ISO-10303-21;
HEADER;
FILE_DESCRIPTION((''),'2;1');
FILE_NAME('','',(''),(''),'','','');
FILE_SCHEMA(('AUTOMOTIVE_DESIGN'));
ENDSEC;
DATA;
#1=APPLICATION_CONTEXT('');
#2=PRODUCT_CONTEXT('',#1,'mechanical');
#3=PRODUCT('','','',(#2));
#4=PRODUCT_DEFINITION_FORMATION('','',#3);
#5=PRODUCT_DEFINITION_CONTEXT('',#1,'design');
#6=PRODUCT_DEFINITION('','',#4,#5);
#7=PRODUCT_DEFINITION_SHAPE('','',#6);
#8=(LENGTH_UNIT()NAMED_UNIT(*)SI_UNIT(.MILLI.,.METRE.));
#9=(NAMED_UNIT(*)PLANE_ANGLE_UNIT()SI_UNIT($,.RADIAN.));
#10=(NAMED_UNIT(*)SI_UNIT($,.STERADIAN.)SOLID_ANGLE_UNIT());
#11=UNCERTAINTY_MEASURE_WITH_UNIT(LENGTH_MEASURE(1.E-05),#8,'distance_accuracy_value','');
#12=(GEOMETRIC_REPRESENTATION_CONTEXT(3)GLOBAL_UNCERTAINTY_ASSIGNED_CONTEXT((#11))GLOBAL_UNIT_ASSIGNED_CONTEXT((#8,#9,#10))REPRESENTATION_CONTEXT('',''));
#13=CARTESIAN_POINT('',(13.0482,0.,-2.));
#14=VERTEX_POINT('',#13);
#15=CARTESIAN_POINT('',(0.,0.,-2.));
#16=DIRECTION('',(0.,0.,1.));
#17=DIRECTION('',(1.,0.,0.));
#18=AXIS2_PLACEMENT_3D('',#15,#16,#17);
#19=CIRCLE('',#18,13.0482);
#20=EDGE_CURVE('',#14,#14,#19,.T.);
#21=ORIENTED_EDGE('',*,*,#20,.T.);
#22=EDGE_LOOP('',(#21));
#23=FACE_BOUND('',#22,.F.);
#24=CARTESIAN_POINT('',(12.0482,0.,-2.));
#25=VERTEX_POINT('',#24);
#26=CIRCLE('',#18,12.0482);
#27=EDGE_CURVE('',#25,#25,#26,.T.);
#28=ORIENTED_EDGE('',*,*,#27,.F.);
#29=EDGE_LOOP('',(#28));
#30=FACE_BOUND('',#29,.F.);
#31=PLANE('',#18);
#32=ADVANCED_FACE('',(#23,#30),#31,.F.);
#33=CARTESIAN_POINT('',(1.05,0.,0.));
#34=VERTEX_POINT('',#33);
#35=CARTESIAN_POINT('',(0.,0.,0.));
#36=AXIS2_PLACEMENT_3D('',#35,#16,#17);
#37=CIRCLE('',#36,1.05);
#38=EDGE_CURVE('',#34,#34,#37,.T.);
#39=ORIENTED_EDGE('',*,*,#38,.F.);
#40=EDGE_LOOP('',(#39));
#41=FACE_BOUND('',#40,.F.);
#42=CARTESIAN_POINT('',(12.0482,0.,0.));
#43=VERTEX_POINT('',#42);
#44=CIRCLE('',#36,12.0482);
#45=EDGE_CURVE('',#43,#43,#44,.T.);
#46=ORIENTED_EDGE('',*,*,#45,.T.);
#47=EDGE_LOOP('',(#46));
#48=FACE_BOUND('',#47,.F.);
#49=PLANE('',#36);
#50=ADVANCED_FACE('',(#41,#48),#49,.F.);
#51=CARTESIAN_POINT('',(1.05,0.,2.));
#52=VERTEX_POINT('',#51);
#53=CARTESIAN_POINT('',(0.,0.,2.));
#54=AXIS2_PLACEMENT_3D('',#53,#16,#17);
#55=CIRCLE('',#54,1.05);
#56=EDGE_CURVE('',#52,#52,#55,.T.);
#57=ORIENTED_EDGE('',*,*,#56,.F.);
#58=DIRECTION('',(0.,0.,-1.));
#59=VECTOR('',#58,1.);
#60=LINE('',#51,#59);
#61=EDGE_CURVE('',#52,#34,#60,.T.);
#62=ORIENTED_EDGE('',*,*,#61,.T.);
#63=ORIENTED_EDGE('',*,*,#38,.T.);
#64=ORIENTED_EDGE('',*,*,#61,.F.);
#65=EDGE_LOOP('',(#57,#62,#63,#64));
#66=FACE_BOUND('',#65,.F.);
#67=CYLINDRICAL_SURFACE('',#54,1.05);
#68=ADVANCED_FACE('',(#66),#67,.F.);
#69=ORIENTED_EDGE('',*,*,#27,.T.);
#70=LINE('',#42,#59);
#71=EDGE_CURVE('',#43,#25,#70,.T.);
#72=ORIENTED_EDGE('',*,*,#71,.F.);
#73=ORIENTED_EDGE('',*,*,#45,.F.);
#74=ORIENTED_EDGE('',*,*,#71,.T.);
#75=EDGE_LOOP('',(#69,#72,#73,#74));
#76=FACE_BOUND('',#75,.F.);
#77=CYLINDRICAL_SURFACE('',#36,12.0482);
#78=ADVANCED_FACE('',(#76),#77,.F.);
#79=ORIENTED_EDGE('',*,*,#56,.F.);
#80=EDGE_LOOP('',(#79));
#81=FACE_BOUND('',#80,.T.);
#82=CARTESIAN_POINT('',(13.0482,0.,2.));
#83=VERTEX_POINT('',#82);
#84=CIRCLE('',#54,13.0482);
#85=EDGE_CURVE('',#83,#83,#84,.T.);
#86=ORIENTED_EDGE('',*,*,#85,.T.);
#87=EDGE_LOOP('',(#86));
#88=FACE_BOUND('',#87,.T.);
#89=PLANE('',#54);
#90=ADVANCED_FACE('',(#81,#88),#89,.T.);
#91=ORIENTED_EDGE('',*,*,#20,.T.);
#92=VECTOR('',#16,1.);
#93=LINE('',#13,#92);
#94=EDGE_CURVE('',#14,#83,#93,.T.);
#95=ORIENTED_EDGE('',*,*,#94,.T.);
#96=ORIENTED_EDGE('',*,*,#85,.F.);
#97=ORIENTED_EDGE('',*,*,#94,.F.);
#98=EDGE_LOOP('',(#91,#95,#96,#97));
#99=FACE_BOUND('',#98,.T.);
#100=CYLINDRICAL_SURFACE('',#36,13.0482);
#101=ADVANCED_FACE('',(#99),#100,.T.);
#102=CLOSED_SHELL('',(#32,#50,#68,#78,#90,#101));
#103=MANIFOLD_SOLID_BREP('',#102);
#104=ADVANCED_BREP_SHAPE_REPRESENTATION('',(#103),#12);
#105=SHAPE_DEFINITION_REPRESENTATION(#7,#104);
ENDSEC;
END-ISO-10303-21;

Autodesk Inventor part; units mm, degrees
ref_plane "YZ Plane" through (0, 0, 0) normal (1, 0, 0) x (0, 1, 0)
ref_plane "XZ Plane" through (0, 0, 0) normal (0, 1, 0) x (-1, 0, 0)
ref_plane "XY Plane" through (0, 0, 0) normal (0, 0, 1) x (1, 0, 0)
sketch "Sketch1" plane through (0, 0, 0) normal (0, 0, 1) x (1, 0, 0)
  circle A0 centre (0, 0) radius 13.0482
  spline S0 degree 3 poles (1.4215, 11.0572) (1.4473, 10.9809) (1.4859, 10.8664) (1.5292, 10.7112) (1.5586, 10.5939) (1.5843, 10.4759) (1.6059, 10.357) (1.6236, 10.2374) (1.631, 10.1572) (1.6346, 10.117) knots -0.096663 -0.096663 -0.096663 -0.096663 -0.072499 -0.060415 -0.048332 -0.036249 -0.024166 -0.012083 0 0 0 0 projected
  arc A1 (1.9905, 10.0531) -> (1.6346, 10.117) centre (0, 0) ccw projected
  spline S1 degree 3 poles (1.9905, 10.0531) (2.0079, 10.0894) (2.0426, 10.1621) (2.1009, 10.268) (2.1626, 10.3719) (2.2278, 10.4737) (2.2962, 10.5733) (2.3908, 10.7038) (2.4669, 10.7977) (2.5176, 10.8602) knots -0.096663 -0.096663 -0.096663 -0.096663 -0.084581 -0.072498 -0.060415 -0.048331 -0.036248 -0.024165 0 0 0 0 projected
  arc A2 (2.7193, 10.8115) -> (2.5176, 10.8602) centre (0, 0) ccw projected
  spline S2 degree 3 poles (2.7193, 10.8115) (2.7359, 10.7327) (2.7607, 10.6144) (2.7853, 10.4551) (2.8006, 10.3353) (2.8122, 10.215) (2.8196, 10.0943) (2.8231, 9.9735) (2.8208, 9.893) (2.8197, 9.8527) knots -0.096663 -0.096663 -0.096663 -0.096663 -0.072499 -0.060415 -0.048332 -0.036249 -0.024166 -0.012083 0 0 0 0 projected
  arc A3 (3.1655, 9.7471) -> (2.8197, 9.8527) centre (0, 0) ccw projected
  spline S3 degree 3 poles (3.1655, 9.7471) (3.1871, 9.7811) (3.2302, 9.8492) (3.3006, 9.9475) (3.3741, 10.0433) (3.4509, 10.1367) (3.5306, 10.2275) (3.64, 10.3459) (3.7266, 10.4301) (3.7844, 10.4863) knots -0.096663 -0.096663 -0.096663 -0.096663 -0.084581 -0.072498 -0.060415 -0.048331 -0.036248 -0.024165 0 0 0 0 projected
  arc A4 (3.9789, 10.414) -> (3.7844, 10.4863) centre (0, 0) ccw projected
  spline S4 degree 3 poles (3.9789, 10.414) (3.986, 10.3337) (3.9967, 10.2134) (4.0023, 10.0523) (4.0033, 9.9315) (4.0006, 9.8106) (3.9937, 9.69) (3.9828, 9.5696) (3.9711, 9.4899) (3.9652, 9.45) knots -0.096663 -0.096663 -0.096663 -0.096663 -0.072499 -0.060415 -0.048332 -0.036249 -0.024166 -0.012083 0 0 0 0 projected
  arc A5 (4.2961, 9.3043) -> (3.9652, 9.45) centre (0, 0) ccw projected
  spline S5 degree 3 poles (4.2961, 9.3043) (4.3215, 9.3355) (4.3724, 9.398) (4.4539, 9.4873) (4.5383, 9.5738) (4.6256, 9.6574) (4.7154, 9.7382) (4.838, 9.8428) (4.9341, 9.9161) (4.9981, 9.9651) knots -0.096663 -0.096663 -0.096663 -0.096663 -0.084581 -0.072498 -0.060415 -0.048331 -0.036248 -0.024165 0 0 0 0 projected
  arc A6 (5.1827, 9.8703) -> (4.9981, 9.9651) centre (0, 0) ccw projected
  spline S6 degree 3 poles (5.1827, 9.8703) (5.1803, 9.7898) (5.1766, 9.669) (5.1631, 9.5084) (5.1498, 9.3883) (5.1328, 9.2686) (5.1117, 9.1496) (5.0867, 9.0314) (5.0656, 8.9536) (5.0551, 8.9147) knots -0.096663 -0.096663 -0.096663 -0.096663 -0.072499 -0.060415 -0.048332 -0.036249 -0.024166 -0.012083 0 0 0 0 projected
  arc A7 (5.3664, 8.7309) -> (5.0551, 8.9147) centre (0, 0) ccw projected
  spline S7 degree 3 poles (5.3664, 8.7309) (5.3954, 8.7589) (5.4533, 8.8149) (5.5447, 8.8939) (5.6388, 8.9698) (5.7353, 9.0425) (5.8341, 9.1121) (5.9682, 9.2015) (6.0723, 9.263) (6.1416, 9.304) knots -0.096663 -0.096663 -0.096663 -0.096663 -0.084581 -0.072498 -0.060415 -0.048331 -0.036248 -0.024165 0 0 0 0 projected
  arc A8 (6.3137, 9.1881) -> (6.1416, 9.304) centre (0, 0) ccw projected
  spline S8 degree 3 poles (6.3137, 9.1881) (6.3018, 9.1084) (6.2839, 8.9889) (6.2515, 8.831) (6.2241, 8.7133) (6.193, 8.5965) (6.158, 8.4808) (6.1192, 8.3664) (6.089, 8.2916) (6.074, 8.2543) knots -0.096663 -0.096663 -0.096663 -0.096663 -0.072499 -0.060415 -0.048332 -0.036249 -0.024166 -0.012083 0 0 0 0 projected
  arc A9 (6.3614, 8.0349) -> (6.074, 8.2543) centre (0, 0) ccw projected
  spline S9 degree 3 poles (6.3614, 8.0349) (6.3934, 8.0593) (6.4576, 8.108) (6.5577, 8.1757) (6.6601, 8.24) (6.7646, 8.3007) (6.8709, 8.3581) (7.0146, 8.431) (7.1252, 8.4798) (7.1989, 8.5123) knots -0.096663 -0.096663 -0.096663 -0.096663 -0.084581 -0.072498 -0.060415 -0.048331 -0.036248 -0.024165 0 0 0 0 projected
  arc A10 (7.3561, 8.3768) -> (7.1989, 8.5123) centre (0, 0) ccw projected
  spline S10 degree 3 poles (7.3561, 8.3768) (7.3348, 8.2991) (7.3029, 8.1825) (7.2521, 8.0296) (7.2109, 7.916) (7.1663, 7.8037) (7.1179, 7.693) (7.0657, 7.5839) (7.027, 7.5133) (7.0076, 7.478) knots -0.096663 -0.096663 -0.096663 -0.096663 -0.072499 -0.060415 -0.048332 -0.036249 -0.024166 -0.012083 0 0 0 0 projected
  arc A11 (7.267, 7.2261) -> (7.0076, 7.478) centre (0, 0) ccw projected
  spline S11 degree 3 poles (7.267, 7.2261) (7.3017, 7.2465) (7.3712, 7.2874) (7.4787, 7.3427) (7.5879, 7.3944) (7.6988, 7.4424) (7.8112, 7.4868) (7.9625, 7.5422) (8.0781, 7.5775) (8.1552, 7.6011) knots -0.096663 -0.096663 -0.096663 -0.096663 -0.084581 -0.072498 -0.060415 -0.048331 -0.036248 -0.024165 0 0 0 0 projected
  arc A12 (8.2952, 7.448) -> (8.1552, 7.6011) centre (0, 0) ccw projected
  spline S12 degree 3 poles (8.2952, 7.448) (8.2649, 7.3734) (8.2194, 7.2614) (8.1509, 7.1155) (8.0966, 7.0076) (8.039, 6.9013) (7.9778, 6.7971) (7.9131, 6.695) (7.8663, 6.6294) (7.8429, 6.5967) knots -0.096663 -0.096663 -0.096663 -0.096663 -0.072499 -0.060415 -0.048332 -0.036249 -0.024166 -0.012083 0 0 0 0 projected
  arc A13 (8.0707, 6.3159) -> (7.8429, 6.5967) centre (0, 0) ccw projected
  spline S13 degree 3 poles (8.0707, 6.3159) (8.1076, 6.3321) (8.1814, 6.3644) (8.2946, 6.4066) (8.4092, 6.4451) (8.525, 6.4796) (8.6419, 6.5104) (8.7987, 6.5475) (8.9176, 6.5689) (8.9969, 6.5832) knots -0.096663 -0.096663 -0.096663 -0.096663 -0.084581 -0.072498 -0.060415 -0.048331 -0.036248 -0.024165 0 0 0 0 projected
  arc A14 (9.1179, 6.4146) -> (8.9969, 6.5832) centre (0, 0) ccw projected
  spline S14 degree 3 poles (9.1179, 6.4146) (9.079, 6.3441) (9.0206, 6.2383) (8.9352, 6.1016) (8.8686, 6.0008) (8.7988, 5.9021) (8.7257, 5.8059) (8.6494, 5.7121) (8.5952, 5.6525) (8.568, 5.6228) knots -0.096663 -0.096663 -0.096663 -0.096663 -0.072499 -0.060415 -0.048332 -0.036249 -0.024166 -0.012083 0 0 0 0 projected
  arc A15 (8.761, 5.317) -> (8.568, 5.6228) centre (0, 0) ccw projected
  spline S15 degree 3 poles (8.761, 5.317) (8.7996, 5.3287) (8.8767, 5.3521) (8.9941, 5.3806) (9.1125, 5.4052) (9.2316, 5.4258) (9.3512, 5.4426) (9.5113, 5.4609) (9.632, 5.4681) (9.7124, 5.4729) knots -0.096663 -0.096663 -0.096663 -0.096663 -0.084581 -0.072498 -0.060415 -0.048331 -0.036248 -0.024165 0 0 0 0 projected
  arc A16 (9.8126, 5.2912) -> (9.7124, 5.4729) centre (0, 0) ccw projected
  spline S16 degree 3 poles (9.8126, 5.2912) (9.7656, 5.2258) (9.6951, 5.1276) (9.5942, 5.002) (9.516, 4.9097) (9.4351, 4.82) (9.3511, 4.7331) (9.2643, 4.649) (9.2034, 4.5963) (9.1729, 4.5699) knots -0.096663 -0.096663 -0.096663 -0.096663 -0.072499 -0.060415 -0.048332 -0.036249 -0.024166 -0.012083 0 0 0 0 projected
  arc A17 (9.3284, 4.2435) -> (9.1729, 4.5699) centre (0, 0) ccw projected
  spline S17 degree 3 poles (9.3284, 4.2435) (9.3681, 4.2506) (9.4474, 4.2647) (9.5674, 4.2791) (9.6878, 4.2896) (9.8085, 4.2959) (9.9293, 4.2984) (10.0904, 4.2976) (10.2111, 4.2905) (10.2915, 4.2858) knots -0.096663 -0.096663 -0.096663 -0.096663 -0.084581 -0.072498 -0.060415 -0.048331 -0.036248 -0.024165 0 0 0 0 projected
  arc A18 (10.3695, 4.0935) -> (10.2915, 4.2858) centre (0, 0) ccw projected
  spline S18 degree 3 poles (10.3695, 4.0935) (10.3151, 4.0341) (10.2335, 3.9449) (10.1184, 3.8321) (10.0299, 3.7498) (9.939, 3.6703) (9.8453, 3.5939) (9.7491, 3.5206) (9.6824, 3.4755) (9.649, 3.4529) knots -0.096663 -0.096663 -0.096663 -0.096663 -0.072499 -0.060415 -0.048332 -0.036249 -0.024166 -0.012083 0 0 0 0 projected
  arc A19 (9.7648, 3.1104) -> (9.649, 3.4529) centre (0, 0) ccw projected
  spline S19 degree 3 poles (9.7648, 3.1104) (9.805, 3.1127) (9.8855, 3.1174) (10.0063, 3.1175) (10.1271, 3.1136) (10.2477, 3.1056) (10.368, 3.0939) (10.5279, 3.074) (10.6469, 3.0527) (10.7262, 3.0385) knots -0.096663 -0.096663 -0.096663 -0.096663 -0.084581 -0.072498 -0.060415 -0.048331 -0.036248 -0.024165 0 0 0 0 projected
  arc A20 (10.7809, 2.8383) -> (10.7262, 3.0385) centre (0, 0) ccw projected
  spline S20 degree 3 poles (10.7809, 2.8383) (10.7198, 2.7858) (10.6282, 2.7069) (10.5006, 2.6085) (10.403, 2.5372) (10.3033, 2.469) (10.2013, 2.4042) (10.0971, 2.3429) (10.0255, 2.306) (9.9897, 2.2875) knots -0.096663 -0.096663 -0.096663 -0.096663 -0.072499 -0.060415 -0.048332 -0.036249 -0.024166 -0.012083 0 0 0 0 projected
  arc A21 (10.0642, 1.9337) -> (9.9897, 2.2875) centre (0, 0) ccw projected
  spline S21 degree 3 poles (10.0642, 1.9337) (10.1044, 1.9312) (10.1848, 1.9263) (10.3048, 1.9121) (10.4243, 1.894) (10.5431, 1.8718) (10.6611, 1.8459) (10.8176, 1.8073) (10.9332, 1.772) (11.0103, 1.7485) knots -0.096663 -0.096663 -0.096663 -0.096663 -0.084581 -0.072498 -0.060415 -0.048331 -0.036248 -0.024165 0 0 0 0 projected
  arc A22 (11.0409, 1.5433) -> (11.0103, 1.7485) centre (0, 0) ccw projected
  spline S22 degree 3 poles (11.0409, 1.5433) (10.9741, 1.4983) (10.8738, 1.4309) (10.7354, 1.3482) (10.6301, 1.289) (10.523, 1.2331) (10.414, 1.1808) (10.3033, 1.1322) (10.2279, 1.104) (10.1901, 1.0899) knots -0.096663 -0.096663 -0.096663 -0.096663 -0.072499 -0.060415 -0.048332 -0.036249 -0.024166 -0.012083 0 0 0 0 projected
  arc A23 (10.2222, 0.7298) -> (10.1901, 1.0899) centre (0, 0) ccw projected
  spline S23 degree 3 poles (10.2222, 0.7298) (10.2619, 0.7226) (10.3411, 0.7082) (10.4587, 0.6799) (10.5752, 0.6478) (10.6905, 0.6117) (10.8046, 0.572) (10.9554, 0.5152) (11.066, 0.4665) (11.1398, 0.434) knots -0.096663 -0.096663 -0.096663 -0.096663 -0.084581 -0.072498 -0.060415 -0.048331 -0.036248 -0.024165 0 0 0 0 projected
  arc A24 (11.1459, 0.2266) -> (11.1398, 0.434) centre (0, 0) ccw projected
  spline S24 degree 3 poles (11.1459, 0.2266) (11.0742, 0.1899) (10.9667, 0.1348) (10.8196, 0.069) (10.708, 0.0227) (10.595, -0.0202) (10.4806, -0.0592) (10.3649, -0.0943) (10.2866, -0.1134) (10.2475, -0.1229) knots -0.096663 -0.096663 -0.096663 -0.096663 -0.072499 -0.060415 -0.048332 -0.036249 -0.024166 -0.012083 0 0 0 0 projected
  arc A25 (10.2368, -0.4843) -> (10.2475, -0.1229) centre (0, 0) ccw projected
  spline S25 degree 3 poles (10.2368, -0.4843) (10.2753, -0.4962) (10.3523, -0.5199) (10.4657, -0.5618) (10.5775, -0.6075) (10.6878, -0.657) (10.7965, -0.7099) (10.9394, -0.7842) (11.0435, -0.8456) (11.1129, -0.8865) knots -0.096663 -0.096663 -0.096663 -0.096663 -0.084581 -0.072498 -0.060415 -0.048331 -0.036248 -0.024165 0 0 0 0 projected
  arc A26 (11.0945, -1.0932) -> (11.1129, -0.8865) centre (0, 0) ccw projected
  spline S26 degree 3 poles (11.0945, -1.0932) (11.019, -1.1212) (10.9057, -1.1633) (10.7518, -1.2111) (10.6355, -1.2439) (10.5182, -1.2731) (10.4, -1.2983) (10.281, -1.3196) (10.201, -1.3292) (10.161, -1.3341) knots -0.096663 -0.096663 -0.096663 -0.096663 -0.072499 -0.060415 -0.048332 -0.036249 -0.024166 -0.012083 0 0 0 0 projected
  arc A27 (10.1077, -1.6917) -> (10.161, -1.3341) centre (0, 0) ccw projected
  spline S27 degree 3 poles (10.1077, -1.6917) (10.1445, -1.708) (10.2182, -1.7406) (10.3258, -1.7957) (10.4315, -1.8543) (10.5351, -1.9165) (10.6367, -1.9818) (10.7699, -2.0725) (10.866, -2.1458) (10.9301, -2.1947) knots -0.096663 -0.096663 -0.096663 -0.096663 -0.084581 -0.072498 -0.060415 -0.048331 -0.036248 -0.024165 0 0 0 0 projected
  arc A28 (10.8873, -2.3977) -> (10.9301, -2.1947) centre (0, 0) ccw projected
  spline S28 degree 3 poles (10.8873, -2.3977) (10.809, -2.4166) (10.6915, -2.4449) (10.5331, -2.4742) (10.4137, -2.4931) (10.2938, -2.5082) (10.1735, -2.5192) (10.0528, -2.5263) (9.9722, -2.5264) (9.9319, -2.5265) knots -0.096663 -0.096663 -0.096663 -0.096663 -0.072499 -0.060415 -0.048332 -0.036249 -0.024166 -0.012083 0 0 0 0 projected
  arc A29 (9.8366, -2.8753) -> (9.9319, -2.5265) centre (0, 0) ccw projected
  spline S29 degree 3 poles (9.8366, -2.8753) (9.8713, -2.8958) (9.9406, -2.9369) (10.0409, -3.0043) (10.1389, -3.075) (10.2345, -3.149) (10.3277, -3.226) (10.4492, -3.3318) (10.536, -3.4159) (10.5938, -3.472) knots -0.096663 -0.096663 -0.096663 -0.096663 -0.084581 -0.072498 -0.060415 -0.048331 -0.036248 -0.024165 0 0 0 0 projected
  arc A30 (10.5273, -3.6686) -> (10.5938, -3.472) centre (0, 0) ccw projected
  spline S30 degree 3 poles (10.5273, -3.6686) (10.4473, -3.6781) (10.3273, -3.6923) (10.1665, -3.7027) (10.0457, -3.7073) (9.9249, -3.7081) (9.8041, -3.7048) (9.6834, -3.6975) (9.6034, -3.6881) (9.5634, -3.6834) knots -0.096663 -0.096663 -0.096663 -0.096663 -0.072499 -0.060415 -0.048332 -0.036249 -0.024166 -0.012083 0 0 0 0 projected
  arc A31 (9.4275, -4.0185) -> (9.5634, -3.6834) centre (0, 0) ccw projected
  spline S31 degree 3 poles (9.4275, -4.0185) (9.4595, -4.043) (9.5234, -4.092) (9.6151, -4.1708) (9.7041, -4.2526) (9.7902, -4.3374) (9.8736, -4.4248) (9.9818, -4.5442) (10.058, -4.6381) (10.1088, -4.7006) knots -0.096663 -0.096663 -0.096663 -0.096663 -0.084581 -0.072498 -0.060415 -0.048331 -0.036248 -0.024165 0 0 0 0 projected
  arc A32 (10.0196, -4.8879) -> (10.1088, -4.7006) centre (0, 0) ccw projected
  spline S32 degree 3 poles (10.0196, -4.8879) (9.939, -4.8879) (9.8181, -4.8878) (9.6572, -4.8791) (9.5368, -4.8694) (9.4167, -4.8559) (9.2971, -4.8384) (9.1781, -4.8168) (9.0998, -4.7981) (9.0606, -4.7887) knots -0.096663 -0.096663 -0.096663 -0.096663 -0.072499 -0.060415 -0.048332 -0.036249 -0.024166 -0.012083 0 0 0 0 projected
  arc A33 (8.8861, -5.1053) -> (9.0606, -4.7887) centre (0, 0) ccw projected
  spline S33 degree 3 poles (8.8861, -5.1053) (8.9149, -5.1334) (8.9726, -5.1897) (9.0543, -5.2788) (9.133, -5.3705) (9.2085, -5.4649) (9.281, -5.5615) (9.3743, -5.6929) (9.4388, -5.7951) (9.4819, -5.8632) knots -0.096663 -0.096663 -0.096663 -0.096663 -0.084581 -0.072498 -0.060415 -0.048331 -0.036248 -0.024165 0 0 0 0 projected
  arc A34 (9.3711, -6.0387) -> (9.4819, -5.8632) centre (0, 0) ccw projected
  spline S34 degree 3 poles (9.3711, -6.0387) (9.2911, -6.0291) (9.1711, -6.0147) (9.0124, -5.987) (8.8939, -5.9631) (8.7762, -5.9356) (8.6596, -5.904) (8.544, -5.8686) (8.4684, -5.8407) (8.4307, -5.8267) knots -0.096663 -0.096663 -0.096663 -0.096663 -0.072499 -0.060415 -0.048332 -0.036249 -0.024166 -0.012083 0 0 0 0 projected
  arc A35 (8.2199, -6.1205) -> (8.4307, -5.8267) centre (0, 0) ccw projected
  spline S35 degree 3 poles (8.2199, -6.1205) (8.2452, -6.1518) (8.2958, -6.2144) (8.3664, -6.3126) (8.4337, -6.413) (8.4975, -6.5156) (8.5581, -6.6202) (8.6352, -6.7617) (8.6872, -6.8708) (8.7219, -6.9435) knots -0.096663 -0.096663 -0.096663 -0.096663 -0.084581 -0.072498 -0.060415 -0.048331 -0.036248 -0.024165 0 0 0 0 projected
  arc A36 (8.5911, -7.1046) -> (8.7219, -6.9435) centre (0, 0) ccw projected
  spline S36 degree 3 poles (8.5911, -7.1046) (8.5128, -7.0857) (8.3954, -7.0572) (8.241, -7.0109) (8.1262, -6.9732) (8.0126, -6.9319) (7.9005, -6.8868) (7.79, -6.8379) (7.7182, -6.8013) (7.6823, -6.7829) knots -0.096663 -0.096663 -0.096663 -0.096663 -0.072499 -0.060415 -0.048332 -0.036249 -0.024166 -0.012083 0 0 0 0 projected
  arc A37 (7.4383, -7.0497) -> (7.6823, -6.7829) centre (0, 0) ccw projected
  spline S37 degree 3 poles (7.4383, -7.0497) (7.4597, -7.0838) (7.5026, -7.152) (7.5611, -7.2578) (7.616, -7.3654) (7.6672, -7.4749) (7.715, -7.5859) (7.7748, -7.7355) (7.8136, -7.85) (7.8394, -7.9263) knots -0.096663 -0.096663 -0.096663 -0.096663 -0.084581 -0.072498 -0.060415 -0.048331 -0.036248 -0.024165 0 0 0 0 projected
  arc A38 (7.6905, -8.0709) -> (7.8394, -7.9263) centre (0, 0) ccw projected
  spline S38 degree 3 poles (7.6905, -8.0709) (7.615, -8.0428) (7.5018, -8.0006) (7.354, -7.9364) (7.2444, -7.8854) (7.1365, -7.8309) (7.0306, -7.7728) (6.9265, -7.7113) (6.8596, -7.6664) (6.8262, -7.6439) knots -0.096663 -0.096663 -0.096663 -0.096663 -0.072499 -0.060415 -0.048332 -0.036249 -0.024166 -0.012083 0 0 0 0 projected
  arc A39 (6.5523, -7.88) -> (6.8262, -7.6439) centre (0, 0) ccw projected
  spline S39 degree 3 poles (6.5523, -7.88) (6.5696, -7.9164) (6.6041, -7.9892) (6.6496, -8.1011) (6.6914, -8.2145) (6.7293, -8.3293) (6.7637, -8.4451) (6.8053, -8.6008) (6.8303, -8.7191) (6.8469, -8.7979) knots -0.096663 -0.096663 -0.096663 -0.096663 -0.084581 -0.072498 -0.060415 -0.048331 -0.036248 -0.024165 0 0 0 0 projected
  arc A40 (6.682, -8.9238) -> (6.8469, -8.7979) centre (0, 0) ccw projected
  spline S40 degree 3 poles (6.682, -8.9238) (6.6103, -8.887) (6.5028, -8.8317) (6.3637, -8.7505) (6.261, -8.6868) (6.1602, -8.62) (6.0619, -8.5498) (5.9659, -8.4764) (5.9048, -8.4239) (5.8742, -8.3976) knots -0.096663 -0.096663 -0.096663 -0.096663 -0.072499 -0.060415 -0.048332 -0.036249 -0.024166 -0.012083 0 0 0 0 projected
  arc A41 (5.5743, -8.5996) -> (5.8742, -8.3976) centre (0, 0) ccw projected
  spline S41 degree 3 poles (5.5743, -8.5996) (5.5871, -8.6378) (5.6128, -8.7142) (5.6448, -8.8307) (5.6729, -8.9483) (5.697, -9.0667) (5.7173, -9.1858) (5.7403, -9.3453) (5.7511, -9.4657) (5.7583, -9.5459) knots -0.096663 -0.096663 -0.096663 -0.096663 -0.084581 -0.072498 -0.060415 -0.048331 -0.036248 -0.024165 0 0 0 0 projected
  arc A42 (5.5797, -9.6515) -> (5.7583, -9.5459) centre (0, 0) ccw projected
  spline S42 degree 3 poles (5.5797, -9.6515) (5.5128, -9.6064) (5.4126, -9.5389) (5.2841, -9.4417) (5.1896, -9.3664) (5.0975, -9.2881) (5.0081, -9.2068) (4.9215, -9.1225) (4.867, -9.0631) (4.8397, -9.0335) knots -0.096663 -0.096663 -0.096663 -0.096663 -0.072499 -0.060415 -0.048332 -0.036249 -0.024166 -0.012083 0 0 0 0 projected
  arc A43 (4.5181, -9.1985) -> (4.8397, -9.0335) centre (0, 0) ccw projected
  spline S43 degree 3 poles (4.5181, -9.1985) (4.5263, -9.238) (4.5428, -9.3169) (4.5607, -9.4364) (4.5747, -9.5564) (4.5846, -9.6769) (4.5908, -9.7976) (4.5947, -9.9587) (4.5912, -10.0795) (4.5889, -10.16) knots -0.096663 -0.096663 -0.096663 -0.096663 -0.084581 -0.072498 -0.060415 -0.048331 -0.036248 -0.024165 0 0 0 0 projected
  arc A44 (4.399, -10.2436) -> (4.5889, -10.16) centre (0, 0) ccw projected
  spline S44 degree 3 poles (4.399, -10.2436) (4.338, -10.191) (4.2465, -10.1121) (4.1303, -10.0004) (4.0454, -9.9144) (3.9632, -9.8258) (3.8841, -9.7345) (3.808, -9.6405) (3.7609, -9.5751) (3.7374, -9.5425) knots -0.096663 -0.096663 -0.096663 -0.096663 -0.072499 -0.060415 -0.048332 -0.036249 -0.024166 -0.012083 0 0 0 0 projected
  arc A45 (3.3984, -9.6684) -> (3.7374, -9.5425) centre (0, 0) ccw projected
  spline S45 degree 3 poles (3.3984, -9.6684) (3.4019, -9.7085) (3.4089, -9.7887) (3.4127, -9.9096) (3.4124, -10.0304) (3.4079, -10.1512) (3.3998, -10.2718) (3.3846, -10.4322) (3.3669, -10.5517) (3.355, -10.6314) knots -0.096663 -0.096663 -0.096663 -0.096663 -0.084581 -0.072498 -0.060415 -0.048331 -0.036248 -0.024165 0 0 0 0 projected
  arc A46 (3.1566, -10.692) -> (3.355, -10.6314) centre (0, 0) ccw projected
  spline S46 degree 3 poles (3.1566, -10.692) (3.1022, -10.6326) (3.0207, -10.5433) (2.9185, -10.4187) (2.8444, -10.3233) (2.7732, -10.2256) (2.7055, -10.1255) (2.6411, -10.0232) (2.602, -9.9528) (2.5825, -9.9175) knots -0.096663 -0.096663 -0.096663 -0.096663 -0.072499 -0.060415 -0.048332 -0.036249 -0.024166 -0.012083 0 0 0 0 projected
  arc A47 (2.2311, -10.0024) -> (2.5825, -9.9175) centre (0, 0) ccw projected
  spline S47 degree 3 poles (2.2311, -10.0024) (2.2298, -10.0427) (2.2273, -10.1232) (2.2167, -10.2436) (2.2021, -10.3636) (2.1834, -10.483) (2.161, -10.6018) (2.127, -10.7593) (2.0952, -10.8759) (2.074, -10.9536) knots -0.096663 -0.096663 -0.096663 -0.096663 -0.084581 -0.072498 -0.060415 -0.048331 -0.036248 -0.024165 0 0 0 0 projected
  arc A48 (1.8698, -10.9903) -> (2.074, -10.9536) centre (0, 0) ccw projected
  spline S48 degree 3 poles (1.8698, -10.9903) (1.8229, -10.9248) (1.7525, -10.8266) (1.6658, -10.6908) (1.6034, -10.5872) (1.5443, -10.4818) (1.4889, -10.3744) (1.437, -10.2652) (1.4066, -10.1906) (1.3914, -10.1533) knots -0.096663 -0.096663 -0.096663 -0.096663 -0.072499 -0.060415 -0.048332 -0.036249 -0.024166 -0.012083 0 0 0 0 projected
  arc A49 (1.0324, -10.1961) -> (1.3914, -10.1533) centre (0, 0) ccw projected
  spline S49 degree 3 poles (1.0324, -10.1961) (1.0264, -10.2359) (1.0143, -10.3156) (0.9896, -10.4339) (0.9609, -10.5513) (0.9282, -10.6677) (0.892, -10.7829) (0.8396, -10.9353) (0.7942, -11.0474) (0.764, -11.122) knots -0.096663 -0.096663 -0.096663 -0.096663 -0.084581 -0.072498 -0.060415 -0.048331 -0.036248 -0.024165 0 0 0 0 projected
  arc A50 (0.5568, -11.1343) -> (0.764, -11.122) centre (0, 0) ccw projected
  spline S50 degree 3 poles (0.5568, -11.1343) (0.518, -11.0637) (0.4597, -10.9579) (0.3896, -10.8128) (0.34, -10.7026) (0.2938, -10.5909) (0.2514, -10.4777) (0.2129, -10.3632) (0.1915, -10.2855) (0.1808, -10.2466) knots -0.096663 -0.096663 -0.096663 -0.096663 -0.072499 -0.060415 -0.048332 -0.036249 -0.024166 -0.012083 0 0 0 0 projected
  arc A51 (-0.1808, -10.2466) -> (0.1808, -10.2466) centre (0, 0) ccw projected
  spline S51 degree 3 poles (-0.1808, -10.2466) (-0.1915, -10.2855) (-0.2129, -10.3632) (-0.2514, -10.4777) (-0.2938, -10.5909) (-0.34, -10.7026) (-0.3896, -10.8128) (-0.4597, -10.9579) (-0.518, -11.0637) (-0.5568, -11.1343) knots -0.096663 -0.096663 -0.096663 -0.096663 -0.084581 -0.072498 -0.060415 -0.048331 -0.036248 -0.024165 0 0 0 0 projected
  arc A52 (-0.764, -11.122) -> (-0.5568, -11.1343) centre (0, 0) ccw projected
  spline S52 degree 3 poles (-0.764, -11.122) (-0.7942, -11.0474) (-0.8396, -10.9353) (-0.892, -10.7829) (-0.9282, -10.6677) (-0.9609, -10.5513) (-0.9896, -10.4339) (-1.0143, -10.3156) (-1.0264, -10.2359) (-1.0324, -10.1961) knots -0.096663 -0.096663 -0.096663 -0.096663 -0.072499 -0.060415 -0.048332 -0.036249 -0.024166 -0.012083 0 0 0 0 projected
  arc A53 (-1.3914, -10.1533) -> (-1.0324, -10.1961) centre (0, 0) ccw projected
  spline S53 degree 3 poles (-1.3914, -10.1533) (-1.4066, -10.1906) (-1.437, -10.2652) (-1.4889, -10.3744) (-1.5443, -10.4818) (-1.6034, -10.5872) (-1.6658, -10.6908) (-1.7525, -10.8266) (-1.8229, -10.9248) (-1.8698, -10.9903) knots -0.096663 -0.096663 -0.096663 -0.096663 -0.084581 -0.072498 -0.060415 -0.048331 -0.036248 -0.024165 0 0 0 0 projected
  arc A54 (-2.074, -10.9536) -> (-1.8698, -10.9903) centre (0, 0) ccw projected
  spline S54 degree 3 poles (-2.074, -10.9536) (-2.0952, -10.8759) (-2.127, -10.7593) (-2.161, -10.6018) (-2.1834, -10.483) (-2.2021, -10.3636) (-2.2167, -10.2436) (-2.2273, -10.1232) (-2.2298, -10.0427) (-2.2311, -10.0024) knots -0.096663 -0.096663 -0.096663 -0.096663 -0.072499 -0.060415 -0.048332 -0.036249 -0.024166 -0.012083 0 0 0 0 projected
  arc A55 (-2.5825, -9.9175) -> (-2.2311, -10.0024) centre (0, 0) ccw projected
  spline S55 degree 3 poles (-2.5825, -9.9175) (-2.602, -9.9528) (-2.6411, -10.0232) (-2.7055, -10.1255) (-2.7732, -10.2256) (-2.8444, -10.3233) (-2.9185, -10.4187) (-3.0207, -10.5433) (-3.1022, -10.6326) (-3.1566, -10.692) knots -0.096663 -0.096663 -0.096663 -0.096663 -0.084581 -0.072498 -0.060415 -0.048331 -0.036248 -0.024165 0 0 0 0 projected
  arc A56 (-3.355, -10.6314) -> (-3.1566, -10.692) centre (0, 0) ccw projected
  spline S56 degree 3 poles (-3.355, -10.6314) (-3.3669, -10.5517) (-3.3846, -10.4322) (-3.3998, -10.2718) (-3.4079, -10.1512) (-3.4124, -10.0304) (-3.4127, -9.9096) (-3.4089, -9.7887) (-3.4019, -9.7085) (-3.3984, -9.6684) knots -0.096663 -0.096663 -0.096663 -0.096663 -0.072499 -0.060415 -0.048332 -0.036249 -0.024166 -0.012083 0 0 0 0 projected
  arc A57 (-3.7374, -9.5425) -> (-3.3984, -9.6684) centre (0, 0) ccw projected
  spline S57 degree 3 poles (-3.7374, -9.5425) (-3.7609, -9.5751) (-3.808, -9.6405) (-3.8841, -9.7345) (-3.9632, -9.8258) (-4.0454, -9.9144) (-4.1303, -10.0004) (-4.2465, -10.1121) (-4.338, -10.191) (-4.399, -10.2436) knots -0.096663 -0.096663 -0.096663 -0.096663 -0.084581 -0.072498 -0.060415 -0.048331 -0.036248 -0.024165 0 0 0 0 projected
  arc A58 (-4.5889, -10.16) -> (-4.399, -10.2436) centre (0, 0) ccw projected
  spline S58 degree 3 poles (-4.5889, -10.16) (-4.5912, -10.0795) (-4.5947, -9.9587) (-4.5908, -9.7976) (-4.5846, -9.6769) (-4.5747, -9.5564) (-4.5607, -9.4364) (-4.5428, -9.3169) (-4.5263, -9.238) (-4.5181, -9.1985) knots -0.096663 -0.096663 -0.096663 -0.096663 -0.072499 -0.060415 -0.048332 -0.036249 -0.024166 -0.012083 0 0 0 0 projected
  arc A59 (-4.8397, -9.0335) -> (-4.5181, -9.1985) centre (0, 0) ccw projected
  spline S59 degree 3 poles (-4.8397, -9.0335) (-4.867, -9.0631) (-4.9215, -9.1225) (-5.0081, -9.2068) (-5.0975, -9.2881) (-5.1896, -9.3664) (-5.2841, -9.4417) (-5.4126, -9.5389) (-5.5128, -9.6064) (-5.5797, -9.6515) knots -0.096663 -0.096663 -0.096663 -0.096663 -0.084581 -0.072498 -0.060415 -0.048331 -0.036248 -0.024165 0 0 0 0 projected
  arc A60 (-5.7583, -9.5459) -> (-5.5797, -9.6515) centre (0, 0) ccw projected
  spline S60 degree 3 poles (-5.7583, -9.5459) (-5.7511, -9.4657) (-5.7403, -9.3453) (-5.7173, -9.1858) (-5.697, -9.0667) (-5.6729, -8.9483) (-5.6448, -8.8307) (-5.6128, -8.7142) (-5.5871, -8.6378) (-5.5743, -8.5996) knots -0.096663 -0.096663 -0.096663 -0.096663 -0.072499 -0.060415 -0.048332 -0.036249 -0.024166 -0.012083 0 0 0 0 projected
  arc A61 (-5.8742, -8.3976) -> (-5.5743, -8.5996) centre (0, 0) ccw projected
  spline S61 degree 3 poles (-5.8742, -8.3976) (-5.9048, -8.4239) (-5.9659, -8.4764) (-6.0619, -8.5498) (-6.1602, -8.62) (-6.261, -8.6868) (-6.3637, -8.7505) (-6.5028, -8.8317) (-6.6103, -8.887) (-6.682, -8.9238) knots -0.096663 -0.096663 -0.096663 -0.096663 -0.084581 -0.072498 -0.060415 -0.048331 -0.036248 -0.024165 0 0 0 0 projected
  arc A62 (-6.8469, -8.7979) -> (-6.682, -8.9238) centre (0, 0) ccw projected
  spline S62 degree 3 poles (-6.8469, -8.7979) (-6.8303, -8.7191) (-6.8053, -8.6008) (-6.7637, -8.4451) (-6.7293, -8.3293) (-6.6914, -8.2145) (-6.6496, -8.1011) (-6.6041, -7.9892) (-6.5696, -7.9164) (-6.5523, -7.88) knots -0.096663 -0.096663 -0.096663 -0.096663 -0.072499 -0.060415 -0.048332 -0.036249 -0.024166 -0.012083 0 0 0 0 projected
  arc A63 (-6.8262, -7.6439) -> (-6.5523, -7.88) centre (0, 0) ccw projected
  spline S63 degree 3 poles (-6.8262, -7.6439) (-6.8596, -7.6664) (-6.9265, -7.7113) (-7.0306, -7.7728) (-7.1365, -7.8309) (-7.2444, -7.8854) (-7.354, -7.9364) (-7.5018, -8.0006) (-7.615, -8.0428) (-7.6905, -8.0709) knots -0.096663 -0.096663 -0.096663 -0.096663 -0.084581 -0.072498 -0.060415 -0.048331 -0.036248 -0.024165 0 0 0 0 projected
  arc A64 (-7.8394, -7.9263) -> (-7.6905, -8.0709) centre (0, 0) ccw projected
  spline S64 degree 3 poles (-7.8394, -7.9263) (-7.8136, -7.85) (-7.7748, -7.7355) (-7.715, -7.5859) (-7.6672, -7.4749) (-7.616, -7.3654) (-7.5611, -7.2578) (-7.5026, -7.152) (-7.4597, -7.0838) (-7.4383, -7.0497) knots -0.096663 -0.096663 -0.096663 -0.096663 -0.072499 -0.060415 -0.048332 -0.036249 -0.024166 -0.012083 0 0 0 0 projected
  arc A65 (-7.6823, -6.7829) -> (-7.4383, -7.0497) centre (0, 0) ccw projected
  spline S65 degree 3 poles (-7.6823, -6.7829) (-7.7182, -6.8013) (-7.79, -6.8379) (-7.9005, -6.8868) (-8.0126, -6.9319) (-8.1262, -6.9732) (-8.241, -7.0109) (-8.3954, -7.0572) (-8.5128, -7.0857) (-8.5911, -7.1046) knots -0.096663 -0.096663 -0.096663 -0.096663 -0.084581 -0.072498 -0.060415 -0.048331 -0.036248 -0.024165 0 0 0 0 projected
  arc A66 (-8.7219, -6.9435) -> (-8.5911, -7.1046) centre (0, 0) ccw projected
  spline S66 degree 3 poles (-8.7219, -6.9435) (-8.6872, -6.8708) (-8.6352, -6.7617) (-8.5581, -6.6202) (-8.4975, -6.5156) (-8.4337, -6.413) (-8.3664, -6.3126) (-8.2958, -6.2144) (-8.2452, -6.1518) (-8.2199, -6.1205) knots -0.096663 -0.096663 -0.096663 -0.096663 -0.072499 -0.060415 -0.048332 -0.036249 -0.024166 -0.012083 0 0 0 0 projected
  arc A67 (-8.4307, -5.8267) -> (-8.2199, -6.1205) centre (0, 0) ccw projected
  spline S67 degree 3 poles (-8.4307, -5.8267) (-8.4684, -5.8407) (-8.544, -5.8686) (-8.6596, -5.904) (-8.7762, -5.9356) (-8.8939, -5.9631) (-9.0124, -5.987) (-9.1711, -6.0147) (-9.2911, -6.0291) (-9.3711, -6.0387) knots -0.096663 -0.096663 -0.096663 -0.096663 -0.084581 -0.072498 -0.060415 -0.048331 -0.036248 -0.024165 0 0 0 0 projected
  arc A68 (-9.4819, -5.8632) -> (-9.3711, -6.0387) centre (0, 0) ccw projected
  spline S68 degree 3 poles (-9.4819, -5.8632) (-9.4388, -5.7951) (-9.3743, -5.6929) (-9.281, -5.5615) (-9.2085, -5.4649) (-9.133, -5.3705) (-9.0543, -5.2788) (-8.9726, -5.1897) (-8.9149, -5.1334) (-8.8861, -5.1053) knots -0.096663 -0.096663 -0.096663 -0.096663 -0.072499 -0.060415 -0.048332 -0.036249 -0.024166 -0.012083 0 0 0 0 projected
  arc A69 (-9.0606, -4.7887) -> (-8.8861, -5.1053) centre (0, 0) ccw projected
  spline S69 degree 3 poles (-9.0606, -4.7887) (-9.0998, -4.7981) (-9.1781, -4.8168) (-9.2971, -4.8384) (-9.4167, -4.8559) (-9.5368, -4.8694) (-9.6572, -4.8791) (-9.8181, -4.8878) (-9.939, -4.8879) (-10.0196, -4.8879) knots -0.096663 -0.096663 -0.096663 -0.096663 -0.084581 -0.072498 -0.060415 -0.048331 -0.036248 -0.024165 0 0 0 0 projected
  arc A70 (-10.1088, -4.7006) -> (-10.0196, -4.8879) centre (0, 0) ccw projected
  spline S70 degree 3 poles (-10.1088, -4.7006) (-10.058, -4.6381) (-9.9818, -4.5442) (-9.8736, -4.4248) (-9.7902, -4.3374) (-9.7041, -4.2526) (-9.6151, -4.1708) (-9.5234, -4.092) (-9.4595, -4.043) (-9.4275, -4.0185) knots -0.096663 -0.096663 -0.096663 -0.096663 -0.072499 -0.060415 -0.048332 -0.036249 -0.024166 -0.012083 0 0 0 0 projected
  arc A71 (-9.5634, -3.6834) -> (-9.4275, -4.0185) centre (0, 0) ccw projected
  spline S71 degree 3 poles (-9.5634, -3.6834) (-9.6034, -3.6881) (-9.6834, -3.6975) (-9.8041, -3.7048) (-9.9249, -3.7081) (-10.0457, -3.7073) (-10.1665, -3.7027) (-10.3273, -3.6923) (-10.4473, -3.6781) (-10.5273, -3.6686) knots -0.096663 -0.096663 -0.096663 -0.096663 -0.084581 -0.072498 -0.060415 -0.048331 -0.036248 -0.024165 0 0 0 0 projected
  arc A72 (-10.5938, -3.472) -> (-10.5273, -3.6686) centre (0, 0) ccw projected
  spline S72 degree 3 poles (-10.5938, -3.472) (-10.536, -3.4159) (-10.4492, -3.3318) (-10.3277, -3.226) (-10.2345, -3.149) (-10.1389, -3.075) (-10.0409, -3.0043) (-9.9406, -2.9369) (-9.8713, -2.8958) (-9.8366, -2.8753) knots -0.096663 -0.096663 -0.096663 -0.096663 -0.072499 -0.060415 -0.048332 -0.036249 -0.024166 -0.012083 0 0 0 0 projected
  arc A73 (-9.9319, -2.5265) -> (-9.8366, -2.8753) centre (0, 0) ccw projected
  spline S73 degree 3 poles (-9.9319, -2.5265) (-9.9722, -2.5264) (-10.0528, -2.5263) (-10.1735, -2.5192) (-10.2938, -2.5082) (-10.4137, -2.4931) (-10.5331, -2.4742) (-10.6915, -2.4449) (-10.809, -2.4166) (-10.8873, -2.3977) knots -0.096663 -0.096663 -0.096663 -0.096663 -0.084581 -0.072498 -0.060415 -0.048331 -0.036248 -0.024165 0 0 0 0 projected
  arc A74 (-10.9301, -2.1947) -> (-10.8873, -2.3977) centre (0, 0) ccw projected
  spline S74 degree 3 poles (-10.9301, -2.1947) (-10.866, -2.1458) (-10.7699, -2.0725) (-10.6367, -1.9818) (-10.5351, -1.9165) (-10.4315, -1.8543) (-10.3258, -1.7957) (-10.2182, -1.7406) (-10.1445, -1.708) (-10.1077, -1.6917) knots -0.096663 -0.096663 -0.096663 -0.096663 -0.072499 -0.060415 -0.048332 -0.036249 -0.024166 -0.012083 0 0 0 0 projected
  arc A75 (-10.161, -1.3341) -> (-10.1077, -1.6917) centre (0, 0) ccw projected
  spline S75 degree 3 poles (-10.161, -1.3341) (-10.201, -1.3292) (-10.281, -1.3196) (-10.4, -1.2983) (-10.5182, -1.2731) (-10.6355, -1.2439) (-10.7518, -1.2111) (-10.9057, -1.1633) (-11.019, -1.1212) (-11.0945, -1.0932) knots -0.096663 -0.096663 -0.096663 -0.096663 -0.084581 -0.072498 -0.060415 -0.048331 -0.036248 -0.024165 0 0 0 0 projected
  arc A76 (-11.1129, -0.8865) -> (-11.0945, -1.0932) centre (0, 0) ccw projected
  spline S76 degree 3 poles (-11.1129, -0.8865) (-11.0435, -0.8456) (-10.9394, -0.7842) (-10.7965, -0.7099) (-10.6878, -0.657) (-10.5775, -0.6075) (-10.4657, -0.5618) (-10.3523, -0.5199) (-10.2753, -0.4962) (-10.2368, -0.4843) knots -0.096663 -0.096663 -0.096663 -0.096663 -0.072499 -0.060415 -0.048332 -0.036249 -0.024166 -0.012083 0 0 0 0 projected
  arc A77 (-10.2475, -0.1229) -> (-10.2368, -0.4843) centre (0, 0) ccw projected
  spline S77 degree 3 poles (-10.2475, -0.1229) (-10.2866, -0.1134) (-10.3649, -0.0943) (-10.4806, -0.0592) (-10.595, -0.0202) (-10.708, 0.0227) (-10.8196, 0.069) (-10.9667, 0.1348) (-11.0742, 0.1899) (-11.1459, 0.2266) knots -0.096663 -0.096663 -0.096663 -0.096663 -0.084581 -0.072498 -0.060415 -0.048331 -0.036248 -0.024165 0 0 0 0 projected
  arc A78 (-11.1398, 0.434) -> (-11.1459, 0.2266) centre (0, 0) ccw projected
  spline S78 degree 3 poles (-11.1398, 0.434) (-11.066, 0.4665) (-10.9554, 0.5152) (-10.8046, 0.572) (-10.6905, 0.6117) (-10.5752, 0.6478) (-10.4587, 0.6799) (-10.3411, 0.7082) (-10.2619, 0.7226) (-10.2222, 0.7298) knots -0.096663 -0.096663 -0.096663 -0.096663 -0.072499 -0.060415 -0.048332 -0.036249 -0.024166 -0.012083 0 0 0 0 projected
  arc A79 (-10.1901, 1.0899) -> (-10.2222, 0.7298) centre (0, 0) ccw projected
  spline S79 degree 3 poles (-10.1901, 1.0899) (-10.2279, 1.104) (-10.3033, 1.1322) (-10.414, 1.1808) (-10.523, 1.2331) (-10.6301, 1.289) (-10.7354, 1.3482) (-10.8738, 1.4309) (-10.9741, 1.4983) (-11.0409, 1.5433) knots -0.096663 -0.096663 -0.096663 -0.096663 -0.084581 -0.072498 -0.060415 -0.048331 -0.036248 -0.024165 0 0 0 0 projected
  arc A80 (-11.0103, 1.7485) -> (-11.0409, 1.5433) centre (0, 0) ccw projected
  spline S80 degree 3 poles (-11.0103, 1.7485) (-10.9332, 1.772) (-10.8176, 1.8073) (-10.6611, 1.8459) (-10.5431, 1.8718) (-10.4243, 1.894) (-10.3048, 1.9121) (-10.1848, 1.9263) (-10.1044, 1.9312) (-10.0642, 1.9337) knots -0.096663 -0.096663 -0.096663 -0.096663 -0.072499 -0.060415 -0.048332 -0.036249 -0.024166 -0.012083 0 0 0 0 projected
  arc A81 (-9.9897, 2.2875) -> (-10.0642, 1.9337) centre (0, 0) ccw projected
  spline S81 degree 3 poles (-9.9897, 2.2875) (-10.0255, 2.306) (-10.0971, 2.3429) (-10.2013, 2.4042) (-10.3033, 2.469) (-10.403, 2.5372) (-10.5006, 2.6085) (-10.6282, 2.7069) (-10.7198, 2.7858) (-10.7809, 2.8383) knots -0.096663 -0.096663 -0.096663 -0.096663 -0.084581 -0.072498 -0.060415 -0.048331 -0.036248 -0.024165 0 0 0 0 projected
  arc A82 (-10.7262, 3.0385) -> (-10.7809, 2.8383) centre (0, 0) ccw projected
  spline S82 degree 3 poles (-10.7262, 3.0385) (-10.6469, 3.0527) (-10.5279, 3.074) (-10.368, 3.0939) (-10.2477, 3.1056) (-10.1271, 3.1136) (-10.0063, 3.1175) (-9.8855, 3.1174) (-9.805, 3.1127) (-9.7648, 3.1104) knots -0.096663 -0.096663 -0.096663 -0.096663 -0.072499 -0.060415 -0.048332 -0.036249 -0.024166 -0.012083 0 0 0 0 projected
  arc A83 (-9.649, 3.4529) -> (-9.7648, 3.1104) centre (0, 0) ccw projected
  spline S83 degree 3 poles (-9.649, 3.4529) (-9.6824, 3.4755) (-9.7491, 3.5206) (-9.8453, 3.5939) (-9.939, 3.6703) (-10.0299, 3.7498) (-10.1184, 3.8321) (-10.2335, 3.9449) (-10.3151, 4.0341) (-10.3695, 4.0935) knots -0.096663 -0.096663 -0.096663 -0.096663 -0.084581 -0.072498 -0.060415 -0.048331 -0.036248 -0.024165 0 0 0 0 projected
  arc A84 (-10.2915, 4.2858) -> (-10.3695, 4.0935) centre (0, 0) ccw projected
  spline S84 degree 3 poles (-10.2915, 4.2858) (-10.2111, 4.2905) (-10.0904, 4.2976) (-9.9293, 4.2984) (-9.8085, 4.2959) (-9.6878, 4.2896) (-9.5674, 4.2791) (-9.4474, 4.2647) (-9.3681, 4.2506) (-9.3284, 4.2435) knots -0.096663 -0.096663 -0.096663 -0.096663 -0.072499 -0.060415 -0.048332 -0.036249 -0.024166 -0.012083 0 0 0 0 projected
  arc A85 (-9.1729, 4.5699) -> (-9.3284, 4.2435) centre (0, 0) ccw projected
  spline S85 degree 3 poles (-9.1729, 4.5699) (-9.2034, 4.5963) (-9.2643, 4.649) (-9.3511, 4.7331) (-9.4351, 4.82) (-9.516, 4.9097) (-9.5942, 5.002) (-9.6951, 5.1276) (-9.7656, 5.2258) (-9.8126, 5.2912) knots -0.096663 -0.096663 -0.096663 -0.096663 -0.084581 -0.072498 -0.060415 -0.048331 -0.036248 -0.024165 0 0 0 0 projected
  arc A86 (-9.7124, 5.4729) -> (-9.8126, 5.2912) centre (0, 0) ccw projected
  spline S86 degree 3 poles (-9.7124, 5.4729) (-9.632, 5.4681) (-9.5113, 5.4609) (-9.3512, 5.4426) (-9.2316, 5.4258) (-9.1125, 5.4052) (-8.9941, 5.3806) (-8.8767, 5.3521) (-8.7996, 5.3287) (-8.761, 5.317) knots -0.096663 -0.096663 -0.096663 -0.096663 -0.072499 -0.060415 -0.048332 -0.036249 -0.024166 -0.012083 0 0 0 0 projected
  arc A87 (-8.568, 5.6228) -> (-8.761, 5.317) centre (0, 0) ccw projected
  spline S87 degree 3 poles (-8.568, 5.6228) (-8.5952, 5.6525) (-8.6494, 5.7121) (-8.7257, 5.8059) (-8.7988, 5.9021) (-8.8686, 6.0008) (-8.9352, 6.1016) (-9.0206, 6.2383) (-9.079, 6.3441) (-9.1179, 6.4146) knots -0.096663 -0.096663 -0.096663 -0.096663 -0.084581 -0.072498 -0.060415 -0.048331 -0.036248 -0.024165 0 0 0 0 projected
  arc A88 (-8.9969, 6.5832) -> (-9.1179, 6.4146) centre (0, 0) ccw projected
  spline S88 degree 3 poles (-8.9969, 6.5832) (-8.9176, 6.5689) (-8.7987, 6.5475) (-8.6419, 6.5104) (-8.525, 6.4796) (-8.4092, 6.4451) (-8.2946, 6.4066) (-8.1814, 6.3644) (-8.1076, 6.3321) (-8.0707, 6.3159) knots -0.096663 -0.096663 -0.096663 -0.096663 -0.072499 -0.060415 -0.048332 -0.036249 -0.024166 -0.012083 0 0 0 0 projected
  arc A89 (-7.8429, 6.5967) -> (-8.0707, 6.3159) centre (0, 0) ccw projected
  spline S89 degree 3 poles (-7.8429, 6.5967) (-7.8663, 6.6294) (-7.9131, 6.695) (-7.9778, 6.7971) (-8.039, 6.9013) (-8.0966, 7.0076) (-8.1509, 7.1155) (-8.2194, 7.2614) (-8.2649, 7.3734) (-8.2952, 7.448) knots -0.096663 -0.096663 -0.096663 -0.096663 -0.084581 -0.072498 -0.060415 -0.048331 -0.036248 -0.024165 0 0 0 0 projected
  arc A90 (-8.1552, 7.6011) -> (-8.2952, 7.448) centre (0, 0) ccw projected
  spline S90 degree 3 poles (-8.1552, 7.6011) (-8.0781, 7.5775) (-7.9625, 7.5422) (-7.8112, 7.4868) (-7.6988, 7.4424) (-7.5879, 7.3944) (-7.4787, 7.3427) (-7.3712, 7.2874) (-7.3017, 7.2465) (-7.267, 7.2261) knots -0.096663 -0.096663 -0.096663 -0.096663 -0.072499 -0.060415 -0.048332 -0.036249 -0.024166 -0.012083 0 0 0 0 projected
  arc A91 (-7.0076, 7.478) -> (-7.267, 7.2261) centre (0, 0) ccw projected
  spline S91 degree 3 poles (-7.0076, 7.478) (-7.027, 7.5133) (-7.0657, 7.5839) (-7.1179, 7.693) (-7.1663, 7.8037) (-7.2109, 7.916) (-7.2521, 8.0296) (-7.3029, 8.1825) (-7.3348, 8.2991) (-7.3561, 8.3768) knots -0.096663 -0.096663 -0.096663 -0.096663 -0.084581 -0.072498 -0.060415 -0.048331 -0.036248 -0.024165 0 0 0 0 projected
  arc A92 (-7.1989, 8.5123) -> (-7.3561, 8.3768) centre (0, 0) ccw projected
  spline S92 degree 3 poles (-7.1989, 8.5123) (-7.1252, 8.4798) (-7.0146, 8.431) (-6.8709, 8.3581) (-6.7646, 8.3007) (-6.6601, 8.24) (-6.5577, 8.1757) (-6.4576, 8.108) (-6.3934, 8.0593) (-6.3614, 8.0349) knots -0.096663 -0.096663 -0.096663 -0.096663 -0.072499 -0.060415 -0.048332 -0.036249 -0.024166 -0.012083 0 0 0 0 projected
  arc A93 (-6.074, 8.2543) -> (-6.3614, 8.0349) centre (0, 0) ccw projected
  spline S93 degree 3 poles (-6.074, 8.2543) (-6.089, 8.2916) (-6.1192, 8.3664) (-6.158, 8.4808) (-6.193, 8.5965) (-6.2241, 8.7133) (-6.2515, 8.831) (-6.2839, 8.9889) (-6.3018, 9.1084) (-6.3137, 9.1881) knots -0.096663 -0.096663 -0.096663 -0.096663 -0.084581 -0.072498 -0.060415 -0.048331 -0.036248 -0.024165 0 0 0 0 projected
  arc A94 (-6.1416, 9.304) -> (-6.3137, 9.1881) centre (0, 0) ccw projected
  spline S94 degree 3 poles (-6.1416, 9.304) (-6.0723, 9.263) (-5.9682, 9.2015) (-5.8341, 9.1121) (-5.7353, 9.0425) (-5.6388, 8.9698) (-5.5447, 8.8939) (-5.4533, 8.8149) (-5.3954, 8.7589) (-5.3664, 8.7309) knots -0.096663 -0.096663 -0.096663 -0.096663 -0.072499 -0.060415 -0.048332 -0.036249 -0.024166 -0.012083 0 0 0 0 projected
  arc A95 (-5.0551, 8.9147) -> (-5.3664, 8.7309) centre (0, 0) ccw projected
  spline S95 degree 3 poles (-5.0551, 8.9147) (-5.0656, 8.9536) (-5.0867, 9.0314) (-5.1117, 9.1496) (-5.1328, 9.2686) (-5.1498, 9.3883) (-5.1631, 9.5084) (-5.1766, 9.669) (-5.1803, 9.7898) (-5.1827, 9.8703) knots -0.096663 -0.096663 -0.096663 -0.096663 -0.084581 -0.072498 -0.060415 -0.048331 -0.036248 -0.024165 0 0 0 0 projected
  arc A96 (-4.9981, 9.9651) -> (-5.1827, 9.8703) centre (0, 0) ccw projected
  spline S96 degree 3 poles (-4.9981, 9.9651) (-4.9341, 9.9161) (-4.838, 9.8428) (-4.7154, 9.7382) (-4.6256, 9.6574) (-4.5383, 9.5738) (-4.4539, 9.4873) (-4.3724, 9.398) (-4.3215, 9.3355) (-4.2961, 9.3043) knots -0.096663 -0.096663 -0.096663 -0.096663 -0.072499 -0.060415 -0.048332 -0.036249 -0.024166 -0.012083 0 0 0 0 projected
  arc A97 (-3.9652, 9.45) -> (-4.2961, 9.3043) centre (0, 0) ccw projected
  spline S97 degree 3 poles (-3.9652, 9.45) (-3.9711, 9.4899) (-3.9828, 9.5696) (-3.9937, 9.69) (-4.0006, 9.8106) (-4.0033, 9.9315) (-4.0023, 10.0523) (-3.9967, 10.2134) (-3.986, 10.3337) (-3.9789, 10.414) knots -0.096663 -0.096663 -0.096663 -0.096663 -0.084581 -0.072498 -0.060415 -0.048331 -0.036248 -0.024165 0 0 0 0 projected
  arc A98 (-3.7844, 10.4863) -> (-3.9789, 10.414) centre (0, 0) ccw projected
  spline S98 degree 3 poles (-3.7844, 10.4863) (-3.7266, 10.4301) (-3.64, 10.3459) (-3.5306, 10.2275) (-3.4509, 10.1367) (-3.3741, 10.0433) (-3.3006, 9.9475) (-3.2302, 9.8492) (-3.1871, 9.7811) (-3.1655, 9.7471) knots -0.096663 -0.096663 -0.096663 -0.096663 -0.072499 -0.060415 -0.048332 -0.036249 -0.024166 -0.012083 0 0 0 0 projected
  arc A99 (-2.8197, 9.8527) -> (-3.1655, 9.7471) centre (0, 0) ccw projected
  spline S99 degree 3 poles (-2.8197, 9.8527) (-2.8208, 9.893) (-2.8231, 9.9735) (-2.8196, 10.0943) (-2.8122, 10.215) (-2.8006, 10.3353) (-2.7853, 10.4551) (-2.7607, 10.6144) (-2.7359, 10.7327) (-2.7193, 10.8115) knots -0.096663 -0.096663 -0.096663 -0.096663 -0.084581 -0.072498 -0.060415 -0.048331 -0.036248 -0.024165 0 0 0 0 projected
  arc A100 (-2.5176, 10.8602) -> (-2.7193, 10.8115) centre (0, 0) ccw projected
  spline S100 degree 3 poles (-2.5176, 10.8602) (-2.4669, 10.7977) (-2.3908, 10.7038) (-2.2962, 10.5733) (-2.2278, 10.4737) (-2.1626, 10.3719) (-2.1009, 10.268) (-2.0426, 10.1621) (-2.0079, 10.0894) (-1.9905, 10.0531) knots -0.096663 -0.096663 -0.096663 -0.096663 -0.072499 -0.060415 -0.048332 -0.036249 -0.024166 -0.012083 0 0 0 0 projected
  arc A101 (-1.6346, 10.117) -> (-1.9905, 10.0531) centre (0, 0) ccw projected
  spline S101 degree 3 poles (-1.6346, 10.117) (-1.631, 10.1572) (-1.6236, 10.2374) (-1.6059, 10.357) (-1.5843, 10.4759) (-1.5586, 10.5939) (-1.5292, 10.7112) (-1.4859, 10.8664) (-1.4473, 10.9809) (-1.4215, 11.0572) knots -0.096663 -0.096663 -0.096663 -0.096663 -0.084581 -0.072498 -0.060415 -0.048331 -0.036248 -0.024165 0 0 0 0 projected
  arc A102 (-1.2155, 11.0818) -> (-1.4215, 11.0572) centre (0, 0) ccw projected
  spline S102 degree 3 poles (-1.2155, 11.0818) (-1.1725, 11.0136) (-1.108, 10.9114) (-1.0295, 10.7707) (-0.9734, 10.6636) (-0.9207, 10.5549) (-0.8717, 10.4444) (-0.8264, 10.3323) (-0.8005, 10.2561) (-0.7875, 10.2179) knots -0.096663 -0.096663 -0.096663 -0.096663 -0.072499 -0.060415 -0.048332 -0.036249 -0.024166 -0.012083 0 0 0 0 projected
  arc A103 (-0.4266, 10.2394) -> (-0.7875, 10.2179) centre (0, 0) ccw projected
  spline S103 degree 3 poles (-0.4266, 10.2394) (-0.4182, 10.2788) (-0.4014, 10.3576) (-0.3697, 10.4742) (-0.3341, 10.5897) (-0.2946, 10.7039) (-0.2516, 10.8168) (-0.1903, 10.9659) (-0.1384, 11.075) (-0.1037, 11.1478) knots -0.096663 -0.096663 -0.096663 -0.096663 -0.084581 -0.072498 -0.060415 -0.048331 -0.036248 -0.024165 0 0 0 0 projected
  arc A104 (0.1037, 11.1478) -> (-0.1037, 11.1478) centre (0, 0) ccw projected
  spline S104 degree 3 poles (0.1037, 11.1478) (0.1384, 11.075) (0.1903, 10.9659) (0.2516, 10.8168) (0.2946, 10.7039) (0.3341, 10.5897) (0.3697, 10.4742) (0.4014, 10.3576) (0.4182, 10.2788) (0.4266, 10.2394) knots -0.096663 -0.096663 -0.096663 -0.096663 -0.072499 -0.060415 -0.048332 -0.036249 -0.024166 -0.012083 0 0 0 0 projected
  arc A105 (0.7875, 10.2179) -> (0.4266, 10.2394) centre (0, 0) ccw projected
  spline S105 degree 3 poles (0.7875, 10.2179) (0.8005, 10.2561) (0.8264, 10.3323) (0.8717, 10.4444) (0.9207, 10.5549) (0.9734, 10.6636) (1.0295, 10.7707) (1.108, 10.9114) (1.1725, 11.0136) (1.2155, 11.0818) knots -0.096663 -0.096663 -0.096663 -0.096663 -0.084581 -0.072498 -0.060415 -0.048331 -0.036248 -0.024165 0 0 0 0 projected
  arc A106 (1.4215, 11.0572) -> (1.2155, 11.0818) centre (0, 0) ccw projected
  circle A107 centre (0, 0) radius 12.0482 projected
  dimension "d0" = 1
extrude "Extrusion1" add sketch "Sketch1" against normal blind 2 contours A0
sketch "Sketch2" plane through (0, 0, 0) normal (0, 0, 1) x (1, 0, 0)
  circle A0 centre (0, 0) radius 13.0482 projected
  circle A1 centre (0, 0) radius 13.0482
extrude "Extrusion2" add sketch "Sketch2" along normal blind 2
sketch "Sketch3" plane through (0, 0, 2) normal (0, 0, 1) x (1, 0, 0)
  circle A0 centre (0, 0) radius 13.0482 projected
  circle A1 centre (0, 0) radius 1.05
  dimension "d5" = 2.1
extrude "Extrusion3" cut sketch "Sketch3" against normal through all contours A1
properties part number "inDeckel"
